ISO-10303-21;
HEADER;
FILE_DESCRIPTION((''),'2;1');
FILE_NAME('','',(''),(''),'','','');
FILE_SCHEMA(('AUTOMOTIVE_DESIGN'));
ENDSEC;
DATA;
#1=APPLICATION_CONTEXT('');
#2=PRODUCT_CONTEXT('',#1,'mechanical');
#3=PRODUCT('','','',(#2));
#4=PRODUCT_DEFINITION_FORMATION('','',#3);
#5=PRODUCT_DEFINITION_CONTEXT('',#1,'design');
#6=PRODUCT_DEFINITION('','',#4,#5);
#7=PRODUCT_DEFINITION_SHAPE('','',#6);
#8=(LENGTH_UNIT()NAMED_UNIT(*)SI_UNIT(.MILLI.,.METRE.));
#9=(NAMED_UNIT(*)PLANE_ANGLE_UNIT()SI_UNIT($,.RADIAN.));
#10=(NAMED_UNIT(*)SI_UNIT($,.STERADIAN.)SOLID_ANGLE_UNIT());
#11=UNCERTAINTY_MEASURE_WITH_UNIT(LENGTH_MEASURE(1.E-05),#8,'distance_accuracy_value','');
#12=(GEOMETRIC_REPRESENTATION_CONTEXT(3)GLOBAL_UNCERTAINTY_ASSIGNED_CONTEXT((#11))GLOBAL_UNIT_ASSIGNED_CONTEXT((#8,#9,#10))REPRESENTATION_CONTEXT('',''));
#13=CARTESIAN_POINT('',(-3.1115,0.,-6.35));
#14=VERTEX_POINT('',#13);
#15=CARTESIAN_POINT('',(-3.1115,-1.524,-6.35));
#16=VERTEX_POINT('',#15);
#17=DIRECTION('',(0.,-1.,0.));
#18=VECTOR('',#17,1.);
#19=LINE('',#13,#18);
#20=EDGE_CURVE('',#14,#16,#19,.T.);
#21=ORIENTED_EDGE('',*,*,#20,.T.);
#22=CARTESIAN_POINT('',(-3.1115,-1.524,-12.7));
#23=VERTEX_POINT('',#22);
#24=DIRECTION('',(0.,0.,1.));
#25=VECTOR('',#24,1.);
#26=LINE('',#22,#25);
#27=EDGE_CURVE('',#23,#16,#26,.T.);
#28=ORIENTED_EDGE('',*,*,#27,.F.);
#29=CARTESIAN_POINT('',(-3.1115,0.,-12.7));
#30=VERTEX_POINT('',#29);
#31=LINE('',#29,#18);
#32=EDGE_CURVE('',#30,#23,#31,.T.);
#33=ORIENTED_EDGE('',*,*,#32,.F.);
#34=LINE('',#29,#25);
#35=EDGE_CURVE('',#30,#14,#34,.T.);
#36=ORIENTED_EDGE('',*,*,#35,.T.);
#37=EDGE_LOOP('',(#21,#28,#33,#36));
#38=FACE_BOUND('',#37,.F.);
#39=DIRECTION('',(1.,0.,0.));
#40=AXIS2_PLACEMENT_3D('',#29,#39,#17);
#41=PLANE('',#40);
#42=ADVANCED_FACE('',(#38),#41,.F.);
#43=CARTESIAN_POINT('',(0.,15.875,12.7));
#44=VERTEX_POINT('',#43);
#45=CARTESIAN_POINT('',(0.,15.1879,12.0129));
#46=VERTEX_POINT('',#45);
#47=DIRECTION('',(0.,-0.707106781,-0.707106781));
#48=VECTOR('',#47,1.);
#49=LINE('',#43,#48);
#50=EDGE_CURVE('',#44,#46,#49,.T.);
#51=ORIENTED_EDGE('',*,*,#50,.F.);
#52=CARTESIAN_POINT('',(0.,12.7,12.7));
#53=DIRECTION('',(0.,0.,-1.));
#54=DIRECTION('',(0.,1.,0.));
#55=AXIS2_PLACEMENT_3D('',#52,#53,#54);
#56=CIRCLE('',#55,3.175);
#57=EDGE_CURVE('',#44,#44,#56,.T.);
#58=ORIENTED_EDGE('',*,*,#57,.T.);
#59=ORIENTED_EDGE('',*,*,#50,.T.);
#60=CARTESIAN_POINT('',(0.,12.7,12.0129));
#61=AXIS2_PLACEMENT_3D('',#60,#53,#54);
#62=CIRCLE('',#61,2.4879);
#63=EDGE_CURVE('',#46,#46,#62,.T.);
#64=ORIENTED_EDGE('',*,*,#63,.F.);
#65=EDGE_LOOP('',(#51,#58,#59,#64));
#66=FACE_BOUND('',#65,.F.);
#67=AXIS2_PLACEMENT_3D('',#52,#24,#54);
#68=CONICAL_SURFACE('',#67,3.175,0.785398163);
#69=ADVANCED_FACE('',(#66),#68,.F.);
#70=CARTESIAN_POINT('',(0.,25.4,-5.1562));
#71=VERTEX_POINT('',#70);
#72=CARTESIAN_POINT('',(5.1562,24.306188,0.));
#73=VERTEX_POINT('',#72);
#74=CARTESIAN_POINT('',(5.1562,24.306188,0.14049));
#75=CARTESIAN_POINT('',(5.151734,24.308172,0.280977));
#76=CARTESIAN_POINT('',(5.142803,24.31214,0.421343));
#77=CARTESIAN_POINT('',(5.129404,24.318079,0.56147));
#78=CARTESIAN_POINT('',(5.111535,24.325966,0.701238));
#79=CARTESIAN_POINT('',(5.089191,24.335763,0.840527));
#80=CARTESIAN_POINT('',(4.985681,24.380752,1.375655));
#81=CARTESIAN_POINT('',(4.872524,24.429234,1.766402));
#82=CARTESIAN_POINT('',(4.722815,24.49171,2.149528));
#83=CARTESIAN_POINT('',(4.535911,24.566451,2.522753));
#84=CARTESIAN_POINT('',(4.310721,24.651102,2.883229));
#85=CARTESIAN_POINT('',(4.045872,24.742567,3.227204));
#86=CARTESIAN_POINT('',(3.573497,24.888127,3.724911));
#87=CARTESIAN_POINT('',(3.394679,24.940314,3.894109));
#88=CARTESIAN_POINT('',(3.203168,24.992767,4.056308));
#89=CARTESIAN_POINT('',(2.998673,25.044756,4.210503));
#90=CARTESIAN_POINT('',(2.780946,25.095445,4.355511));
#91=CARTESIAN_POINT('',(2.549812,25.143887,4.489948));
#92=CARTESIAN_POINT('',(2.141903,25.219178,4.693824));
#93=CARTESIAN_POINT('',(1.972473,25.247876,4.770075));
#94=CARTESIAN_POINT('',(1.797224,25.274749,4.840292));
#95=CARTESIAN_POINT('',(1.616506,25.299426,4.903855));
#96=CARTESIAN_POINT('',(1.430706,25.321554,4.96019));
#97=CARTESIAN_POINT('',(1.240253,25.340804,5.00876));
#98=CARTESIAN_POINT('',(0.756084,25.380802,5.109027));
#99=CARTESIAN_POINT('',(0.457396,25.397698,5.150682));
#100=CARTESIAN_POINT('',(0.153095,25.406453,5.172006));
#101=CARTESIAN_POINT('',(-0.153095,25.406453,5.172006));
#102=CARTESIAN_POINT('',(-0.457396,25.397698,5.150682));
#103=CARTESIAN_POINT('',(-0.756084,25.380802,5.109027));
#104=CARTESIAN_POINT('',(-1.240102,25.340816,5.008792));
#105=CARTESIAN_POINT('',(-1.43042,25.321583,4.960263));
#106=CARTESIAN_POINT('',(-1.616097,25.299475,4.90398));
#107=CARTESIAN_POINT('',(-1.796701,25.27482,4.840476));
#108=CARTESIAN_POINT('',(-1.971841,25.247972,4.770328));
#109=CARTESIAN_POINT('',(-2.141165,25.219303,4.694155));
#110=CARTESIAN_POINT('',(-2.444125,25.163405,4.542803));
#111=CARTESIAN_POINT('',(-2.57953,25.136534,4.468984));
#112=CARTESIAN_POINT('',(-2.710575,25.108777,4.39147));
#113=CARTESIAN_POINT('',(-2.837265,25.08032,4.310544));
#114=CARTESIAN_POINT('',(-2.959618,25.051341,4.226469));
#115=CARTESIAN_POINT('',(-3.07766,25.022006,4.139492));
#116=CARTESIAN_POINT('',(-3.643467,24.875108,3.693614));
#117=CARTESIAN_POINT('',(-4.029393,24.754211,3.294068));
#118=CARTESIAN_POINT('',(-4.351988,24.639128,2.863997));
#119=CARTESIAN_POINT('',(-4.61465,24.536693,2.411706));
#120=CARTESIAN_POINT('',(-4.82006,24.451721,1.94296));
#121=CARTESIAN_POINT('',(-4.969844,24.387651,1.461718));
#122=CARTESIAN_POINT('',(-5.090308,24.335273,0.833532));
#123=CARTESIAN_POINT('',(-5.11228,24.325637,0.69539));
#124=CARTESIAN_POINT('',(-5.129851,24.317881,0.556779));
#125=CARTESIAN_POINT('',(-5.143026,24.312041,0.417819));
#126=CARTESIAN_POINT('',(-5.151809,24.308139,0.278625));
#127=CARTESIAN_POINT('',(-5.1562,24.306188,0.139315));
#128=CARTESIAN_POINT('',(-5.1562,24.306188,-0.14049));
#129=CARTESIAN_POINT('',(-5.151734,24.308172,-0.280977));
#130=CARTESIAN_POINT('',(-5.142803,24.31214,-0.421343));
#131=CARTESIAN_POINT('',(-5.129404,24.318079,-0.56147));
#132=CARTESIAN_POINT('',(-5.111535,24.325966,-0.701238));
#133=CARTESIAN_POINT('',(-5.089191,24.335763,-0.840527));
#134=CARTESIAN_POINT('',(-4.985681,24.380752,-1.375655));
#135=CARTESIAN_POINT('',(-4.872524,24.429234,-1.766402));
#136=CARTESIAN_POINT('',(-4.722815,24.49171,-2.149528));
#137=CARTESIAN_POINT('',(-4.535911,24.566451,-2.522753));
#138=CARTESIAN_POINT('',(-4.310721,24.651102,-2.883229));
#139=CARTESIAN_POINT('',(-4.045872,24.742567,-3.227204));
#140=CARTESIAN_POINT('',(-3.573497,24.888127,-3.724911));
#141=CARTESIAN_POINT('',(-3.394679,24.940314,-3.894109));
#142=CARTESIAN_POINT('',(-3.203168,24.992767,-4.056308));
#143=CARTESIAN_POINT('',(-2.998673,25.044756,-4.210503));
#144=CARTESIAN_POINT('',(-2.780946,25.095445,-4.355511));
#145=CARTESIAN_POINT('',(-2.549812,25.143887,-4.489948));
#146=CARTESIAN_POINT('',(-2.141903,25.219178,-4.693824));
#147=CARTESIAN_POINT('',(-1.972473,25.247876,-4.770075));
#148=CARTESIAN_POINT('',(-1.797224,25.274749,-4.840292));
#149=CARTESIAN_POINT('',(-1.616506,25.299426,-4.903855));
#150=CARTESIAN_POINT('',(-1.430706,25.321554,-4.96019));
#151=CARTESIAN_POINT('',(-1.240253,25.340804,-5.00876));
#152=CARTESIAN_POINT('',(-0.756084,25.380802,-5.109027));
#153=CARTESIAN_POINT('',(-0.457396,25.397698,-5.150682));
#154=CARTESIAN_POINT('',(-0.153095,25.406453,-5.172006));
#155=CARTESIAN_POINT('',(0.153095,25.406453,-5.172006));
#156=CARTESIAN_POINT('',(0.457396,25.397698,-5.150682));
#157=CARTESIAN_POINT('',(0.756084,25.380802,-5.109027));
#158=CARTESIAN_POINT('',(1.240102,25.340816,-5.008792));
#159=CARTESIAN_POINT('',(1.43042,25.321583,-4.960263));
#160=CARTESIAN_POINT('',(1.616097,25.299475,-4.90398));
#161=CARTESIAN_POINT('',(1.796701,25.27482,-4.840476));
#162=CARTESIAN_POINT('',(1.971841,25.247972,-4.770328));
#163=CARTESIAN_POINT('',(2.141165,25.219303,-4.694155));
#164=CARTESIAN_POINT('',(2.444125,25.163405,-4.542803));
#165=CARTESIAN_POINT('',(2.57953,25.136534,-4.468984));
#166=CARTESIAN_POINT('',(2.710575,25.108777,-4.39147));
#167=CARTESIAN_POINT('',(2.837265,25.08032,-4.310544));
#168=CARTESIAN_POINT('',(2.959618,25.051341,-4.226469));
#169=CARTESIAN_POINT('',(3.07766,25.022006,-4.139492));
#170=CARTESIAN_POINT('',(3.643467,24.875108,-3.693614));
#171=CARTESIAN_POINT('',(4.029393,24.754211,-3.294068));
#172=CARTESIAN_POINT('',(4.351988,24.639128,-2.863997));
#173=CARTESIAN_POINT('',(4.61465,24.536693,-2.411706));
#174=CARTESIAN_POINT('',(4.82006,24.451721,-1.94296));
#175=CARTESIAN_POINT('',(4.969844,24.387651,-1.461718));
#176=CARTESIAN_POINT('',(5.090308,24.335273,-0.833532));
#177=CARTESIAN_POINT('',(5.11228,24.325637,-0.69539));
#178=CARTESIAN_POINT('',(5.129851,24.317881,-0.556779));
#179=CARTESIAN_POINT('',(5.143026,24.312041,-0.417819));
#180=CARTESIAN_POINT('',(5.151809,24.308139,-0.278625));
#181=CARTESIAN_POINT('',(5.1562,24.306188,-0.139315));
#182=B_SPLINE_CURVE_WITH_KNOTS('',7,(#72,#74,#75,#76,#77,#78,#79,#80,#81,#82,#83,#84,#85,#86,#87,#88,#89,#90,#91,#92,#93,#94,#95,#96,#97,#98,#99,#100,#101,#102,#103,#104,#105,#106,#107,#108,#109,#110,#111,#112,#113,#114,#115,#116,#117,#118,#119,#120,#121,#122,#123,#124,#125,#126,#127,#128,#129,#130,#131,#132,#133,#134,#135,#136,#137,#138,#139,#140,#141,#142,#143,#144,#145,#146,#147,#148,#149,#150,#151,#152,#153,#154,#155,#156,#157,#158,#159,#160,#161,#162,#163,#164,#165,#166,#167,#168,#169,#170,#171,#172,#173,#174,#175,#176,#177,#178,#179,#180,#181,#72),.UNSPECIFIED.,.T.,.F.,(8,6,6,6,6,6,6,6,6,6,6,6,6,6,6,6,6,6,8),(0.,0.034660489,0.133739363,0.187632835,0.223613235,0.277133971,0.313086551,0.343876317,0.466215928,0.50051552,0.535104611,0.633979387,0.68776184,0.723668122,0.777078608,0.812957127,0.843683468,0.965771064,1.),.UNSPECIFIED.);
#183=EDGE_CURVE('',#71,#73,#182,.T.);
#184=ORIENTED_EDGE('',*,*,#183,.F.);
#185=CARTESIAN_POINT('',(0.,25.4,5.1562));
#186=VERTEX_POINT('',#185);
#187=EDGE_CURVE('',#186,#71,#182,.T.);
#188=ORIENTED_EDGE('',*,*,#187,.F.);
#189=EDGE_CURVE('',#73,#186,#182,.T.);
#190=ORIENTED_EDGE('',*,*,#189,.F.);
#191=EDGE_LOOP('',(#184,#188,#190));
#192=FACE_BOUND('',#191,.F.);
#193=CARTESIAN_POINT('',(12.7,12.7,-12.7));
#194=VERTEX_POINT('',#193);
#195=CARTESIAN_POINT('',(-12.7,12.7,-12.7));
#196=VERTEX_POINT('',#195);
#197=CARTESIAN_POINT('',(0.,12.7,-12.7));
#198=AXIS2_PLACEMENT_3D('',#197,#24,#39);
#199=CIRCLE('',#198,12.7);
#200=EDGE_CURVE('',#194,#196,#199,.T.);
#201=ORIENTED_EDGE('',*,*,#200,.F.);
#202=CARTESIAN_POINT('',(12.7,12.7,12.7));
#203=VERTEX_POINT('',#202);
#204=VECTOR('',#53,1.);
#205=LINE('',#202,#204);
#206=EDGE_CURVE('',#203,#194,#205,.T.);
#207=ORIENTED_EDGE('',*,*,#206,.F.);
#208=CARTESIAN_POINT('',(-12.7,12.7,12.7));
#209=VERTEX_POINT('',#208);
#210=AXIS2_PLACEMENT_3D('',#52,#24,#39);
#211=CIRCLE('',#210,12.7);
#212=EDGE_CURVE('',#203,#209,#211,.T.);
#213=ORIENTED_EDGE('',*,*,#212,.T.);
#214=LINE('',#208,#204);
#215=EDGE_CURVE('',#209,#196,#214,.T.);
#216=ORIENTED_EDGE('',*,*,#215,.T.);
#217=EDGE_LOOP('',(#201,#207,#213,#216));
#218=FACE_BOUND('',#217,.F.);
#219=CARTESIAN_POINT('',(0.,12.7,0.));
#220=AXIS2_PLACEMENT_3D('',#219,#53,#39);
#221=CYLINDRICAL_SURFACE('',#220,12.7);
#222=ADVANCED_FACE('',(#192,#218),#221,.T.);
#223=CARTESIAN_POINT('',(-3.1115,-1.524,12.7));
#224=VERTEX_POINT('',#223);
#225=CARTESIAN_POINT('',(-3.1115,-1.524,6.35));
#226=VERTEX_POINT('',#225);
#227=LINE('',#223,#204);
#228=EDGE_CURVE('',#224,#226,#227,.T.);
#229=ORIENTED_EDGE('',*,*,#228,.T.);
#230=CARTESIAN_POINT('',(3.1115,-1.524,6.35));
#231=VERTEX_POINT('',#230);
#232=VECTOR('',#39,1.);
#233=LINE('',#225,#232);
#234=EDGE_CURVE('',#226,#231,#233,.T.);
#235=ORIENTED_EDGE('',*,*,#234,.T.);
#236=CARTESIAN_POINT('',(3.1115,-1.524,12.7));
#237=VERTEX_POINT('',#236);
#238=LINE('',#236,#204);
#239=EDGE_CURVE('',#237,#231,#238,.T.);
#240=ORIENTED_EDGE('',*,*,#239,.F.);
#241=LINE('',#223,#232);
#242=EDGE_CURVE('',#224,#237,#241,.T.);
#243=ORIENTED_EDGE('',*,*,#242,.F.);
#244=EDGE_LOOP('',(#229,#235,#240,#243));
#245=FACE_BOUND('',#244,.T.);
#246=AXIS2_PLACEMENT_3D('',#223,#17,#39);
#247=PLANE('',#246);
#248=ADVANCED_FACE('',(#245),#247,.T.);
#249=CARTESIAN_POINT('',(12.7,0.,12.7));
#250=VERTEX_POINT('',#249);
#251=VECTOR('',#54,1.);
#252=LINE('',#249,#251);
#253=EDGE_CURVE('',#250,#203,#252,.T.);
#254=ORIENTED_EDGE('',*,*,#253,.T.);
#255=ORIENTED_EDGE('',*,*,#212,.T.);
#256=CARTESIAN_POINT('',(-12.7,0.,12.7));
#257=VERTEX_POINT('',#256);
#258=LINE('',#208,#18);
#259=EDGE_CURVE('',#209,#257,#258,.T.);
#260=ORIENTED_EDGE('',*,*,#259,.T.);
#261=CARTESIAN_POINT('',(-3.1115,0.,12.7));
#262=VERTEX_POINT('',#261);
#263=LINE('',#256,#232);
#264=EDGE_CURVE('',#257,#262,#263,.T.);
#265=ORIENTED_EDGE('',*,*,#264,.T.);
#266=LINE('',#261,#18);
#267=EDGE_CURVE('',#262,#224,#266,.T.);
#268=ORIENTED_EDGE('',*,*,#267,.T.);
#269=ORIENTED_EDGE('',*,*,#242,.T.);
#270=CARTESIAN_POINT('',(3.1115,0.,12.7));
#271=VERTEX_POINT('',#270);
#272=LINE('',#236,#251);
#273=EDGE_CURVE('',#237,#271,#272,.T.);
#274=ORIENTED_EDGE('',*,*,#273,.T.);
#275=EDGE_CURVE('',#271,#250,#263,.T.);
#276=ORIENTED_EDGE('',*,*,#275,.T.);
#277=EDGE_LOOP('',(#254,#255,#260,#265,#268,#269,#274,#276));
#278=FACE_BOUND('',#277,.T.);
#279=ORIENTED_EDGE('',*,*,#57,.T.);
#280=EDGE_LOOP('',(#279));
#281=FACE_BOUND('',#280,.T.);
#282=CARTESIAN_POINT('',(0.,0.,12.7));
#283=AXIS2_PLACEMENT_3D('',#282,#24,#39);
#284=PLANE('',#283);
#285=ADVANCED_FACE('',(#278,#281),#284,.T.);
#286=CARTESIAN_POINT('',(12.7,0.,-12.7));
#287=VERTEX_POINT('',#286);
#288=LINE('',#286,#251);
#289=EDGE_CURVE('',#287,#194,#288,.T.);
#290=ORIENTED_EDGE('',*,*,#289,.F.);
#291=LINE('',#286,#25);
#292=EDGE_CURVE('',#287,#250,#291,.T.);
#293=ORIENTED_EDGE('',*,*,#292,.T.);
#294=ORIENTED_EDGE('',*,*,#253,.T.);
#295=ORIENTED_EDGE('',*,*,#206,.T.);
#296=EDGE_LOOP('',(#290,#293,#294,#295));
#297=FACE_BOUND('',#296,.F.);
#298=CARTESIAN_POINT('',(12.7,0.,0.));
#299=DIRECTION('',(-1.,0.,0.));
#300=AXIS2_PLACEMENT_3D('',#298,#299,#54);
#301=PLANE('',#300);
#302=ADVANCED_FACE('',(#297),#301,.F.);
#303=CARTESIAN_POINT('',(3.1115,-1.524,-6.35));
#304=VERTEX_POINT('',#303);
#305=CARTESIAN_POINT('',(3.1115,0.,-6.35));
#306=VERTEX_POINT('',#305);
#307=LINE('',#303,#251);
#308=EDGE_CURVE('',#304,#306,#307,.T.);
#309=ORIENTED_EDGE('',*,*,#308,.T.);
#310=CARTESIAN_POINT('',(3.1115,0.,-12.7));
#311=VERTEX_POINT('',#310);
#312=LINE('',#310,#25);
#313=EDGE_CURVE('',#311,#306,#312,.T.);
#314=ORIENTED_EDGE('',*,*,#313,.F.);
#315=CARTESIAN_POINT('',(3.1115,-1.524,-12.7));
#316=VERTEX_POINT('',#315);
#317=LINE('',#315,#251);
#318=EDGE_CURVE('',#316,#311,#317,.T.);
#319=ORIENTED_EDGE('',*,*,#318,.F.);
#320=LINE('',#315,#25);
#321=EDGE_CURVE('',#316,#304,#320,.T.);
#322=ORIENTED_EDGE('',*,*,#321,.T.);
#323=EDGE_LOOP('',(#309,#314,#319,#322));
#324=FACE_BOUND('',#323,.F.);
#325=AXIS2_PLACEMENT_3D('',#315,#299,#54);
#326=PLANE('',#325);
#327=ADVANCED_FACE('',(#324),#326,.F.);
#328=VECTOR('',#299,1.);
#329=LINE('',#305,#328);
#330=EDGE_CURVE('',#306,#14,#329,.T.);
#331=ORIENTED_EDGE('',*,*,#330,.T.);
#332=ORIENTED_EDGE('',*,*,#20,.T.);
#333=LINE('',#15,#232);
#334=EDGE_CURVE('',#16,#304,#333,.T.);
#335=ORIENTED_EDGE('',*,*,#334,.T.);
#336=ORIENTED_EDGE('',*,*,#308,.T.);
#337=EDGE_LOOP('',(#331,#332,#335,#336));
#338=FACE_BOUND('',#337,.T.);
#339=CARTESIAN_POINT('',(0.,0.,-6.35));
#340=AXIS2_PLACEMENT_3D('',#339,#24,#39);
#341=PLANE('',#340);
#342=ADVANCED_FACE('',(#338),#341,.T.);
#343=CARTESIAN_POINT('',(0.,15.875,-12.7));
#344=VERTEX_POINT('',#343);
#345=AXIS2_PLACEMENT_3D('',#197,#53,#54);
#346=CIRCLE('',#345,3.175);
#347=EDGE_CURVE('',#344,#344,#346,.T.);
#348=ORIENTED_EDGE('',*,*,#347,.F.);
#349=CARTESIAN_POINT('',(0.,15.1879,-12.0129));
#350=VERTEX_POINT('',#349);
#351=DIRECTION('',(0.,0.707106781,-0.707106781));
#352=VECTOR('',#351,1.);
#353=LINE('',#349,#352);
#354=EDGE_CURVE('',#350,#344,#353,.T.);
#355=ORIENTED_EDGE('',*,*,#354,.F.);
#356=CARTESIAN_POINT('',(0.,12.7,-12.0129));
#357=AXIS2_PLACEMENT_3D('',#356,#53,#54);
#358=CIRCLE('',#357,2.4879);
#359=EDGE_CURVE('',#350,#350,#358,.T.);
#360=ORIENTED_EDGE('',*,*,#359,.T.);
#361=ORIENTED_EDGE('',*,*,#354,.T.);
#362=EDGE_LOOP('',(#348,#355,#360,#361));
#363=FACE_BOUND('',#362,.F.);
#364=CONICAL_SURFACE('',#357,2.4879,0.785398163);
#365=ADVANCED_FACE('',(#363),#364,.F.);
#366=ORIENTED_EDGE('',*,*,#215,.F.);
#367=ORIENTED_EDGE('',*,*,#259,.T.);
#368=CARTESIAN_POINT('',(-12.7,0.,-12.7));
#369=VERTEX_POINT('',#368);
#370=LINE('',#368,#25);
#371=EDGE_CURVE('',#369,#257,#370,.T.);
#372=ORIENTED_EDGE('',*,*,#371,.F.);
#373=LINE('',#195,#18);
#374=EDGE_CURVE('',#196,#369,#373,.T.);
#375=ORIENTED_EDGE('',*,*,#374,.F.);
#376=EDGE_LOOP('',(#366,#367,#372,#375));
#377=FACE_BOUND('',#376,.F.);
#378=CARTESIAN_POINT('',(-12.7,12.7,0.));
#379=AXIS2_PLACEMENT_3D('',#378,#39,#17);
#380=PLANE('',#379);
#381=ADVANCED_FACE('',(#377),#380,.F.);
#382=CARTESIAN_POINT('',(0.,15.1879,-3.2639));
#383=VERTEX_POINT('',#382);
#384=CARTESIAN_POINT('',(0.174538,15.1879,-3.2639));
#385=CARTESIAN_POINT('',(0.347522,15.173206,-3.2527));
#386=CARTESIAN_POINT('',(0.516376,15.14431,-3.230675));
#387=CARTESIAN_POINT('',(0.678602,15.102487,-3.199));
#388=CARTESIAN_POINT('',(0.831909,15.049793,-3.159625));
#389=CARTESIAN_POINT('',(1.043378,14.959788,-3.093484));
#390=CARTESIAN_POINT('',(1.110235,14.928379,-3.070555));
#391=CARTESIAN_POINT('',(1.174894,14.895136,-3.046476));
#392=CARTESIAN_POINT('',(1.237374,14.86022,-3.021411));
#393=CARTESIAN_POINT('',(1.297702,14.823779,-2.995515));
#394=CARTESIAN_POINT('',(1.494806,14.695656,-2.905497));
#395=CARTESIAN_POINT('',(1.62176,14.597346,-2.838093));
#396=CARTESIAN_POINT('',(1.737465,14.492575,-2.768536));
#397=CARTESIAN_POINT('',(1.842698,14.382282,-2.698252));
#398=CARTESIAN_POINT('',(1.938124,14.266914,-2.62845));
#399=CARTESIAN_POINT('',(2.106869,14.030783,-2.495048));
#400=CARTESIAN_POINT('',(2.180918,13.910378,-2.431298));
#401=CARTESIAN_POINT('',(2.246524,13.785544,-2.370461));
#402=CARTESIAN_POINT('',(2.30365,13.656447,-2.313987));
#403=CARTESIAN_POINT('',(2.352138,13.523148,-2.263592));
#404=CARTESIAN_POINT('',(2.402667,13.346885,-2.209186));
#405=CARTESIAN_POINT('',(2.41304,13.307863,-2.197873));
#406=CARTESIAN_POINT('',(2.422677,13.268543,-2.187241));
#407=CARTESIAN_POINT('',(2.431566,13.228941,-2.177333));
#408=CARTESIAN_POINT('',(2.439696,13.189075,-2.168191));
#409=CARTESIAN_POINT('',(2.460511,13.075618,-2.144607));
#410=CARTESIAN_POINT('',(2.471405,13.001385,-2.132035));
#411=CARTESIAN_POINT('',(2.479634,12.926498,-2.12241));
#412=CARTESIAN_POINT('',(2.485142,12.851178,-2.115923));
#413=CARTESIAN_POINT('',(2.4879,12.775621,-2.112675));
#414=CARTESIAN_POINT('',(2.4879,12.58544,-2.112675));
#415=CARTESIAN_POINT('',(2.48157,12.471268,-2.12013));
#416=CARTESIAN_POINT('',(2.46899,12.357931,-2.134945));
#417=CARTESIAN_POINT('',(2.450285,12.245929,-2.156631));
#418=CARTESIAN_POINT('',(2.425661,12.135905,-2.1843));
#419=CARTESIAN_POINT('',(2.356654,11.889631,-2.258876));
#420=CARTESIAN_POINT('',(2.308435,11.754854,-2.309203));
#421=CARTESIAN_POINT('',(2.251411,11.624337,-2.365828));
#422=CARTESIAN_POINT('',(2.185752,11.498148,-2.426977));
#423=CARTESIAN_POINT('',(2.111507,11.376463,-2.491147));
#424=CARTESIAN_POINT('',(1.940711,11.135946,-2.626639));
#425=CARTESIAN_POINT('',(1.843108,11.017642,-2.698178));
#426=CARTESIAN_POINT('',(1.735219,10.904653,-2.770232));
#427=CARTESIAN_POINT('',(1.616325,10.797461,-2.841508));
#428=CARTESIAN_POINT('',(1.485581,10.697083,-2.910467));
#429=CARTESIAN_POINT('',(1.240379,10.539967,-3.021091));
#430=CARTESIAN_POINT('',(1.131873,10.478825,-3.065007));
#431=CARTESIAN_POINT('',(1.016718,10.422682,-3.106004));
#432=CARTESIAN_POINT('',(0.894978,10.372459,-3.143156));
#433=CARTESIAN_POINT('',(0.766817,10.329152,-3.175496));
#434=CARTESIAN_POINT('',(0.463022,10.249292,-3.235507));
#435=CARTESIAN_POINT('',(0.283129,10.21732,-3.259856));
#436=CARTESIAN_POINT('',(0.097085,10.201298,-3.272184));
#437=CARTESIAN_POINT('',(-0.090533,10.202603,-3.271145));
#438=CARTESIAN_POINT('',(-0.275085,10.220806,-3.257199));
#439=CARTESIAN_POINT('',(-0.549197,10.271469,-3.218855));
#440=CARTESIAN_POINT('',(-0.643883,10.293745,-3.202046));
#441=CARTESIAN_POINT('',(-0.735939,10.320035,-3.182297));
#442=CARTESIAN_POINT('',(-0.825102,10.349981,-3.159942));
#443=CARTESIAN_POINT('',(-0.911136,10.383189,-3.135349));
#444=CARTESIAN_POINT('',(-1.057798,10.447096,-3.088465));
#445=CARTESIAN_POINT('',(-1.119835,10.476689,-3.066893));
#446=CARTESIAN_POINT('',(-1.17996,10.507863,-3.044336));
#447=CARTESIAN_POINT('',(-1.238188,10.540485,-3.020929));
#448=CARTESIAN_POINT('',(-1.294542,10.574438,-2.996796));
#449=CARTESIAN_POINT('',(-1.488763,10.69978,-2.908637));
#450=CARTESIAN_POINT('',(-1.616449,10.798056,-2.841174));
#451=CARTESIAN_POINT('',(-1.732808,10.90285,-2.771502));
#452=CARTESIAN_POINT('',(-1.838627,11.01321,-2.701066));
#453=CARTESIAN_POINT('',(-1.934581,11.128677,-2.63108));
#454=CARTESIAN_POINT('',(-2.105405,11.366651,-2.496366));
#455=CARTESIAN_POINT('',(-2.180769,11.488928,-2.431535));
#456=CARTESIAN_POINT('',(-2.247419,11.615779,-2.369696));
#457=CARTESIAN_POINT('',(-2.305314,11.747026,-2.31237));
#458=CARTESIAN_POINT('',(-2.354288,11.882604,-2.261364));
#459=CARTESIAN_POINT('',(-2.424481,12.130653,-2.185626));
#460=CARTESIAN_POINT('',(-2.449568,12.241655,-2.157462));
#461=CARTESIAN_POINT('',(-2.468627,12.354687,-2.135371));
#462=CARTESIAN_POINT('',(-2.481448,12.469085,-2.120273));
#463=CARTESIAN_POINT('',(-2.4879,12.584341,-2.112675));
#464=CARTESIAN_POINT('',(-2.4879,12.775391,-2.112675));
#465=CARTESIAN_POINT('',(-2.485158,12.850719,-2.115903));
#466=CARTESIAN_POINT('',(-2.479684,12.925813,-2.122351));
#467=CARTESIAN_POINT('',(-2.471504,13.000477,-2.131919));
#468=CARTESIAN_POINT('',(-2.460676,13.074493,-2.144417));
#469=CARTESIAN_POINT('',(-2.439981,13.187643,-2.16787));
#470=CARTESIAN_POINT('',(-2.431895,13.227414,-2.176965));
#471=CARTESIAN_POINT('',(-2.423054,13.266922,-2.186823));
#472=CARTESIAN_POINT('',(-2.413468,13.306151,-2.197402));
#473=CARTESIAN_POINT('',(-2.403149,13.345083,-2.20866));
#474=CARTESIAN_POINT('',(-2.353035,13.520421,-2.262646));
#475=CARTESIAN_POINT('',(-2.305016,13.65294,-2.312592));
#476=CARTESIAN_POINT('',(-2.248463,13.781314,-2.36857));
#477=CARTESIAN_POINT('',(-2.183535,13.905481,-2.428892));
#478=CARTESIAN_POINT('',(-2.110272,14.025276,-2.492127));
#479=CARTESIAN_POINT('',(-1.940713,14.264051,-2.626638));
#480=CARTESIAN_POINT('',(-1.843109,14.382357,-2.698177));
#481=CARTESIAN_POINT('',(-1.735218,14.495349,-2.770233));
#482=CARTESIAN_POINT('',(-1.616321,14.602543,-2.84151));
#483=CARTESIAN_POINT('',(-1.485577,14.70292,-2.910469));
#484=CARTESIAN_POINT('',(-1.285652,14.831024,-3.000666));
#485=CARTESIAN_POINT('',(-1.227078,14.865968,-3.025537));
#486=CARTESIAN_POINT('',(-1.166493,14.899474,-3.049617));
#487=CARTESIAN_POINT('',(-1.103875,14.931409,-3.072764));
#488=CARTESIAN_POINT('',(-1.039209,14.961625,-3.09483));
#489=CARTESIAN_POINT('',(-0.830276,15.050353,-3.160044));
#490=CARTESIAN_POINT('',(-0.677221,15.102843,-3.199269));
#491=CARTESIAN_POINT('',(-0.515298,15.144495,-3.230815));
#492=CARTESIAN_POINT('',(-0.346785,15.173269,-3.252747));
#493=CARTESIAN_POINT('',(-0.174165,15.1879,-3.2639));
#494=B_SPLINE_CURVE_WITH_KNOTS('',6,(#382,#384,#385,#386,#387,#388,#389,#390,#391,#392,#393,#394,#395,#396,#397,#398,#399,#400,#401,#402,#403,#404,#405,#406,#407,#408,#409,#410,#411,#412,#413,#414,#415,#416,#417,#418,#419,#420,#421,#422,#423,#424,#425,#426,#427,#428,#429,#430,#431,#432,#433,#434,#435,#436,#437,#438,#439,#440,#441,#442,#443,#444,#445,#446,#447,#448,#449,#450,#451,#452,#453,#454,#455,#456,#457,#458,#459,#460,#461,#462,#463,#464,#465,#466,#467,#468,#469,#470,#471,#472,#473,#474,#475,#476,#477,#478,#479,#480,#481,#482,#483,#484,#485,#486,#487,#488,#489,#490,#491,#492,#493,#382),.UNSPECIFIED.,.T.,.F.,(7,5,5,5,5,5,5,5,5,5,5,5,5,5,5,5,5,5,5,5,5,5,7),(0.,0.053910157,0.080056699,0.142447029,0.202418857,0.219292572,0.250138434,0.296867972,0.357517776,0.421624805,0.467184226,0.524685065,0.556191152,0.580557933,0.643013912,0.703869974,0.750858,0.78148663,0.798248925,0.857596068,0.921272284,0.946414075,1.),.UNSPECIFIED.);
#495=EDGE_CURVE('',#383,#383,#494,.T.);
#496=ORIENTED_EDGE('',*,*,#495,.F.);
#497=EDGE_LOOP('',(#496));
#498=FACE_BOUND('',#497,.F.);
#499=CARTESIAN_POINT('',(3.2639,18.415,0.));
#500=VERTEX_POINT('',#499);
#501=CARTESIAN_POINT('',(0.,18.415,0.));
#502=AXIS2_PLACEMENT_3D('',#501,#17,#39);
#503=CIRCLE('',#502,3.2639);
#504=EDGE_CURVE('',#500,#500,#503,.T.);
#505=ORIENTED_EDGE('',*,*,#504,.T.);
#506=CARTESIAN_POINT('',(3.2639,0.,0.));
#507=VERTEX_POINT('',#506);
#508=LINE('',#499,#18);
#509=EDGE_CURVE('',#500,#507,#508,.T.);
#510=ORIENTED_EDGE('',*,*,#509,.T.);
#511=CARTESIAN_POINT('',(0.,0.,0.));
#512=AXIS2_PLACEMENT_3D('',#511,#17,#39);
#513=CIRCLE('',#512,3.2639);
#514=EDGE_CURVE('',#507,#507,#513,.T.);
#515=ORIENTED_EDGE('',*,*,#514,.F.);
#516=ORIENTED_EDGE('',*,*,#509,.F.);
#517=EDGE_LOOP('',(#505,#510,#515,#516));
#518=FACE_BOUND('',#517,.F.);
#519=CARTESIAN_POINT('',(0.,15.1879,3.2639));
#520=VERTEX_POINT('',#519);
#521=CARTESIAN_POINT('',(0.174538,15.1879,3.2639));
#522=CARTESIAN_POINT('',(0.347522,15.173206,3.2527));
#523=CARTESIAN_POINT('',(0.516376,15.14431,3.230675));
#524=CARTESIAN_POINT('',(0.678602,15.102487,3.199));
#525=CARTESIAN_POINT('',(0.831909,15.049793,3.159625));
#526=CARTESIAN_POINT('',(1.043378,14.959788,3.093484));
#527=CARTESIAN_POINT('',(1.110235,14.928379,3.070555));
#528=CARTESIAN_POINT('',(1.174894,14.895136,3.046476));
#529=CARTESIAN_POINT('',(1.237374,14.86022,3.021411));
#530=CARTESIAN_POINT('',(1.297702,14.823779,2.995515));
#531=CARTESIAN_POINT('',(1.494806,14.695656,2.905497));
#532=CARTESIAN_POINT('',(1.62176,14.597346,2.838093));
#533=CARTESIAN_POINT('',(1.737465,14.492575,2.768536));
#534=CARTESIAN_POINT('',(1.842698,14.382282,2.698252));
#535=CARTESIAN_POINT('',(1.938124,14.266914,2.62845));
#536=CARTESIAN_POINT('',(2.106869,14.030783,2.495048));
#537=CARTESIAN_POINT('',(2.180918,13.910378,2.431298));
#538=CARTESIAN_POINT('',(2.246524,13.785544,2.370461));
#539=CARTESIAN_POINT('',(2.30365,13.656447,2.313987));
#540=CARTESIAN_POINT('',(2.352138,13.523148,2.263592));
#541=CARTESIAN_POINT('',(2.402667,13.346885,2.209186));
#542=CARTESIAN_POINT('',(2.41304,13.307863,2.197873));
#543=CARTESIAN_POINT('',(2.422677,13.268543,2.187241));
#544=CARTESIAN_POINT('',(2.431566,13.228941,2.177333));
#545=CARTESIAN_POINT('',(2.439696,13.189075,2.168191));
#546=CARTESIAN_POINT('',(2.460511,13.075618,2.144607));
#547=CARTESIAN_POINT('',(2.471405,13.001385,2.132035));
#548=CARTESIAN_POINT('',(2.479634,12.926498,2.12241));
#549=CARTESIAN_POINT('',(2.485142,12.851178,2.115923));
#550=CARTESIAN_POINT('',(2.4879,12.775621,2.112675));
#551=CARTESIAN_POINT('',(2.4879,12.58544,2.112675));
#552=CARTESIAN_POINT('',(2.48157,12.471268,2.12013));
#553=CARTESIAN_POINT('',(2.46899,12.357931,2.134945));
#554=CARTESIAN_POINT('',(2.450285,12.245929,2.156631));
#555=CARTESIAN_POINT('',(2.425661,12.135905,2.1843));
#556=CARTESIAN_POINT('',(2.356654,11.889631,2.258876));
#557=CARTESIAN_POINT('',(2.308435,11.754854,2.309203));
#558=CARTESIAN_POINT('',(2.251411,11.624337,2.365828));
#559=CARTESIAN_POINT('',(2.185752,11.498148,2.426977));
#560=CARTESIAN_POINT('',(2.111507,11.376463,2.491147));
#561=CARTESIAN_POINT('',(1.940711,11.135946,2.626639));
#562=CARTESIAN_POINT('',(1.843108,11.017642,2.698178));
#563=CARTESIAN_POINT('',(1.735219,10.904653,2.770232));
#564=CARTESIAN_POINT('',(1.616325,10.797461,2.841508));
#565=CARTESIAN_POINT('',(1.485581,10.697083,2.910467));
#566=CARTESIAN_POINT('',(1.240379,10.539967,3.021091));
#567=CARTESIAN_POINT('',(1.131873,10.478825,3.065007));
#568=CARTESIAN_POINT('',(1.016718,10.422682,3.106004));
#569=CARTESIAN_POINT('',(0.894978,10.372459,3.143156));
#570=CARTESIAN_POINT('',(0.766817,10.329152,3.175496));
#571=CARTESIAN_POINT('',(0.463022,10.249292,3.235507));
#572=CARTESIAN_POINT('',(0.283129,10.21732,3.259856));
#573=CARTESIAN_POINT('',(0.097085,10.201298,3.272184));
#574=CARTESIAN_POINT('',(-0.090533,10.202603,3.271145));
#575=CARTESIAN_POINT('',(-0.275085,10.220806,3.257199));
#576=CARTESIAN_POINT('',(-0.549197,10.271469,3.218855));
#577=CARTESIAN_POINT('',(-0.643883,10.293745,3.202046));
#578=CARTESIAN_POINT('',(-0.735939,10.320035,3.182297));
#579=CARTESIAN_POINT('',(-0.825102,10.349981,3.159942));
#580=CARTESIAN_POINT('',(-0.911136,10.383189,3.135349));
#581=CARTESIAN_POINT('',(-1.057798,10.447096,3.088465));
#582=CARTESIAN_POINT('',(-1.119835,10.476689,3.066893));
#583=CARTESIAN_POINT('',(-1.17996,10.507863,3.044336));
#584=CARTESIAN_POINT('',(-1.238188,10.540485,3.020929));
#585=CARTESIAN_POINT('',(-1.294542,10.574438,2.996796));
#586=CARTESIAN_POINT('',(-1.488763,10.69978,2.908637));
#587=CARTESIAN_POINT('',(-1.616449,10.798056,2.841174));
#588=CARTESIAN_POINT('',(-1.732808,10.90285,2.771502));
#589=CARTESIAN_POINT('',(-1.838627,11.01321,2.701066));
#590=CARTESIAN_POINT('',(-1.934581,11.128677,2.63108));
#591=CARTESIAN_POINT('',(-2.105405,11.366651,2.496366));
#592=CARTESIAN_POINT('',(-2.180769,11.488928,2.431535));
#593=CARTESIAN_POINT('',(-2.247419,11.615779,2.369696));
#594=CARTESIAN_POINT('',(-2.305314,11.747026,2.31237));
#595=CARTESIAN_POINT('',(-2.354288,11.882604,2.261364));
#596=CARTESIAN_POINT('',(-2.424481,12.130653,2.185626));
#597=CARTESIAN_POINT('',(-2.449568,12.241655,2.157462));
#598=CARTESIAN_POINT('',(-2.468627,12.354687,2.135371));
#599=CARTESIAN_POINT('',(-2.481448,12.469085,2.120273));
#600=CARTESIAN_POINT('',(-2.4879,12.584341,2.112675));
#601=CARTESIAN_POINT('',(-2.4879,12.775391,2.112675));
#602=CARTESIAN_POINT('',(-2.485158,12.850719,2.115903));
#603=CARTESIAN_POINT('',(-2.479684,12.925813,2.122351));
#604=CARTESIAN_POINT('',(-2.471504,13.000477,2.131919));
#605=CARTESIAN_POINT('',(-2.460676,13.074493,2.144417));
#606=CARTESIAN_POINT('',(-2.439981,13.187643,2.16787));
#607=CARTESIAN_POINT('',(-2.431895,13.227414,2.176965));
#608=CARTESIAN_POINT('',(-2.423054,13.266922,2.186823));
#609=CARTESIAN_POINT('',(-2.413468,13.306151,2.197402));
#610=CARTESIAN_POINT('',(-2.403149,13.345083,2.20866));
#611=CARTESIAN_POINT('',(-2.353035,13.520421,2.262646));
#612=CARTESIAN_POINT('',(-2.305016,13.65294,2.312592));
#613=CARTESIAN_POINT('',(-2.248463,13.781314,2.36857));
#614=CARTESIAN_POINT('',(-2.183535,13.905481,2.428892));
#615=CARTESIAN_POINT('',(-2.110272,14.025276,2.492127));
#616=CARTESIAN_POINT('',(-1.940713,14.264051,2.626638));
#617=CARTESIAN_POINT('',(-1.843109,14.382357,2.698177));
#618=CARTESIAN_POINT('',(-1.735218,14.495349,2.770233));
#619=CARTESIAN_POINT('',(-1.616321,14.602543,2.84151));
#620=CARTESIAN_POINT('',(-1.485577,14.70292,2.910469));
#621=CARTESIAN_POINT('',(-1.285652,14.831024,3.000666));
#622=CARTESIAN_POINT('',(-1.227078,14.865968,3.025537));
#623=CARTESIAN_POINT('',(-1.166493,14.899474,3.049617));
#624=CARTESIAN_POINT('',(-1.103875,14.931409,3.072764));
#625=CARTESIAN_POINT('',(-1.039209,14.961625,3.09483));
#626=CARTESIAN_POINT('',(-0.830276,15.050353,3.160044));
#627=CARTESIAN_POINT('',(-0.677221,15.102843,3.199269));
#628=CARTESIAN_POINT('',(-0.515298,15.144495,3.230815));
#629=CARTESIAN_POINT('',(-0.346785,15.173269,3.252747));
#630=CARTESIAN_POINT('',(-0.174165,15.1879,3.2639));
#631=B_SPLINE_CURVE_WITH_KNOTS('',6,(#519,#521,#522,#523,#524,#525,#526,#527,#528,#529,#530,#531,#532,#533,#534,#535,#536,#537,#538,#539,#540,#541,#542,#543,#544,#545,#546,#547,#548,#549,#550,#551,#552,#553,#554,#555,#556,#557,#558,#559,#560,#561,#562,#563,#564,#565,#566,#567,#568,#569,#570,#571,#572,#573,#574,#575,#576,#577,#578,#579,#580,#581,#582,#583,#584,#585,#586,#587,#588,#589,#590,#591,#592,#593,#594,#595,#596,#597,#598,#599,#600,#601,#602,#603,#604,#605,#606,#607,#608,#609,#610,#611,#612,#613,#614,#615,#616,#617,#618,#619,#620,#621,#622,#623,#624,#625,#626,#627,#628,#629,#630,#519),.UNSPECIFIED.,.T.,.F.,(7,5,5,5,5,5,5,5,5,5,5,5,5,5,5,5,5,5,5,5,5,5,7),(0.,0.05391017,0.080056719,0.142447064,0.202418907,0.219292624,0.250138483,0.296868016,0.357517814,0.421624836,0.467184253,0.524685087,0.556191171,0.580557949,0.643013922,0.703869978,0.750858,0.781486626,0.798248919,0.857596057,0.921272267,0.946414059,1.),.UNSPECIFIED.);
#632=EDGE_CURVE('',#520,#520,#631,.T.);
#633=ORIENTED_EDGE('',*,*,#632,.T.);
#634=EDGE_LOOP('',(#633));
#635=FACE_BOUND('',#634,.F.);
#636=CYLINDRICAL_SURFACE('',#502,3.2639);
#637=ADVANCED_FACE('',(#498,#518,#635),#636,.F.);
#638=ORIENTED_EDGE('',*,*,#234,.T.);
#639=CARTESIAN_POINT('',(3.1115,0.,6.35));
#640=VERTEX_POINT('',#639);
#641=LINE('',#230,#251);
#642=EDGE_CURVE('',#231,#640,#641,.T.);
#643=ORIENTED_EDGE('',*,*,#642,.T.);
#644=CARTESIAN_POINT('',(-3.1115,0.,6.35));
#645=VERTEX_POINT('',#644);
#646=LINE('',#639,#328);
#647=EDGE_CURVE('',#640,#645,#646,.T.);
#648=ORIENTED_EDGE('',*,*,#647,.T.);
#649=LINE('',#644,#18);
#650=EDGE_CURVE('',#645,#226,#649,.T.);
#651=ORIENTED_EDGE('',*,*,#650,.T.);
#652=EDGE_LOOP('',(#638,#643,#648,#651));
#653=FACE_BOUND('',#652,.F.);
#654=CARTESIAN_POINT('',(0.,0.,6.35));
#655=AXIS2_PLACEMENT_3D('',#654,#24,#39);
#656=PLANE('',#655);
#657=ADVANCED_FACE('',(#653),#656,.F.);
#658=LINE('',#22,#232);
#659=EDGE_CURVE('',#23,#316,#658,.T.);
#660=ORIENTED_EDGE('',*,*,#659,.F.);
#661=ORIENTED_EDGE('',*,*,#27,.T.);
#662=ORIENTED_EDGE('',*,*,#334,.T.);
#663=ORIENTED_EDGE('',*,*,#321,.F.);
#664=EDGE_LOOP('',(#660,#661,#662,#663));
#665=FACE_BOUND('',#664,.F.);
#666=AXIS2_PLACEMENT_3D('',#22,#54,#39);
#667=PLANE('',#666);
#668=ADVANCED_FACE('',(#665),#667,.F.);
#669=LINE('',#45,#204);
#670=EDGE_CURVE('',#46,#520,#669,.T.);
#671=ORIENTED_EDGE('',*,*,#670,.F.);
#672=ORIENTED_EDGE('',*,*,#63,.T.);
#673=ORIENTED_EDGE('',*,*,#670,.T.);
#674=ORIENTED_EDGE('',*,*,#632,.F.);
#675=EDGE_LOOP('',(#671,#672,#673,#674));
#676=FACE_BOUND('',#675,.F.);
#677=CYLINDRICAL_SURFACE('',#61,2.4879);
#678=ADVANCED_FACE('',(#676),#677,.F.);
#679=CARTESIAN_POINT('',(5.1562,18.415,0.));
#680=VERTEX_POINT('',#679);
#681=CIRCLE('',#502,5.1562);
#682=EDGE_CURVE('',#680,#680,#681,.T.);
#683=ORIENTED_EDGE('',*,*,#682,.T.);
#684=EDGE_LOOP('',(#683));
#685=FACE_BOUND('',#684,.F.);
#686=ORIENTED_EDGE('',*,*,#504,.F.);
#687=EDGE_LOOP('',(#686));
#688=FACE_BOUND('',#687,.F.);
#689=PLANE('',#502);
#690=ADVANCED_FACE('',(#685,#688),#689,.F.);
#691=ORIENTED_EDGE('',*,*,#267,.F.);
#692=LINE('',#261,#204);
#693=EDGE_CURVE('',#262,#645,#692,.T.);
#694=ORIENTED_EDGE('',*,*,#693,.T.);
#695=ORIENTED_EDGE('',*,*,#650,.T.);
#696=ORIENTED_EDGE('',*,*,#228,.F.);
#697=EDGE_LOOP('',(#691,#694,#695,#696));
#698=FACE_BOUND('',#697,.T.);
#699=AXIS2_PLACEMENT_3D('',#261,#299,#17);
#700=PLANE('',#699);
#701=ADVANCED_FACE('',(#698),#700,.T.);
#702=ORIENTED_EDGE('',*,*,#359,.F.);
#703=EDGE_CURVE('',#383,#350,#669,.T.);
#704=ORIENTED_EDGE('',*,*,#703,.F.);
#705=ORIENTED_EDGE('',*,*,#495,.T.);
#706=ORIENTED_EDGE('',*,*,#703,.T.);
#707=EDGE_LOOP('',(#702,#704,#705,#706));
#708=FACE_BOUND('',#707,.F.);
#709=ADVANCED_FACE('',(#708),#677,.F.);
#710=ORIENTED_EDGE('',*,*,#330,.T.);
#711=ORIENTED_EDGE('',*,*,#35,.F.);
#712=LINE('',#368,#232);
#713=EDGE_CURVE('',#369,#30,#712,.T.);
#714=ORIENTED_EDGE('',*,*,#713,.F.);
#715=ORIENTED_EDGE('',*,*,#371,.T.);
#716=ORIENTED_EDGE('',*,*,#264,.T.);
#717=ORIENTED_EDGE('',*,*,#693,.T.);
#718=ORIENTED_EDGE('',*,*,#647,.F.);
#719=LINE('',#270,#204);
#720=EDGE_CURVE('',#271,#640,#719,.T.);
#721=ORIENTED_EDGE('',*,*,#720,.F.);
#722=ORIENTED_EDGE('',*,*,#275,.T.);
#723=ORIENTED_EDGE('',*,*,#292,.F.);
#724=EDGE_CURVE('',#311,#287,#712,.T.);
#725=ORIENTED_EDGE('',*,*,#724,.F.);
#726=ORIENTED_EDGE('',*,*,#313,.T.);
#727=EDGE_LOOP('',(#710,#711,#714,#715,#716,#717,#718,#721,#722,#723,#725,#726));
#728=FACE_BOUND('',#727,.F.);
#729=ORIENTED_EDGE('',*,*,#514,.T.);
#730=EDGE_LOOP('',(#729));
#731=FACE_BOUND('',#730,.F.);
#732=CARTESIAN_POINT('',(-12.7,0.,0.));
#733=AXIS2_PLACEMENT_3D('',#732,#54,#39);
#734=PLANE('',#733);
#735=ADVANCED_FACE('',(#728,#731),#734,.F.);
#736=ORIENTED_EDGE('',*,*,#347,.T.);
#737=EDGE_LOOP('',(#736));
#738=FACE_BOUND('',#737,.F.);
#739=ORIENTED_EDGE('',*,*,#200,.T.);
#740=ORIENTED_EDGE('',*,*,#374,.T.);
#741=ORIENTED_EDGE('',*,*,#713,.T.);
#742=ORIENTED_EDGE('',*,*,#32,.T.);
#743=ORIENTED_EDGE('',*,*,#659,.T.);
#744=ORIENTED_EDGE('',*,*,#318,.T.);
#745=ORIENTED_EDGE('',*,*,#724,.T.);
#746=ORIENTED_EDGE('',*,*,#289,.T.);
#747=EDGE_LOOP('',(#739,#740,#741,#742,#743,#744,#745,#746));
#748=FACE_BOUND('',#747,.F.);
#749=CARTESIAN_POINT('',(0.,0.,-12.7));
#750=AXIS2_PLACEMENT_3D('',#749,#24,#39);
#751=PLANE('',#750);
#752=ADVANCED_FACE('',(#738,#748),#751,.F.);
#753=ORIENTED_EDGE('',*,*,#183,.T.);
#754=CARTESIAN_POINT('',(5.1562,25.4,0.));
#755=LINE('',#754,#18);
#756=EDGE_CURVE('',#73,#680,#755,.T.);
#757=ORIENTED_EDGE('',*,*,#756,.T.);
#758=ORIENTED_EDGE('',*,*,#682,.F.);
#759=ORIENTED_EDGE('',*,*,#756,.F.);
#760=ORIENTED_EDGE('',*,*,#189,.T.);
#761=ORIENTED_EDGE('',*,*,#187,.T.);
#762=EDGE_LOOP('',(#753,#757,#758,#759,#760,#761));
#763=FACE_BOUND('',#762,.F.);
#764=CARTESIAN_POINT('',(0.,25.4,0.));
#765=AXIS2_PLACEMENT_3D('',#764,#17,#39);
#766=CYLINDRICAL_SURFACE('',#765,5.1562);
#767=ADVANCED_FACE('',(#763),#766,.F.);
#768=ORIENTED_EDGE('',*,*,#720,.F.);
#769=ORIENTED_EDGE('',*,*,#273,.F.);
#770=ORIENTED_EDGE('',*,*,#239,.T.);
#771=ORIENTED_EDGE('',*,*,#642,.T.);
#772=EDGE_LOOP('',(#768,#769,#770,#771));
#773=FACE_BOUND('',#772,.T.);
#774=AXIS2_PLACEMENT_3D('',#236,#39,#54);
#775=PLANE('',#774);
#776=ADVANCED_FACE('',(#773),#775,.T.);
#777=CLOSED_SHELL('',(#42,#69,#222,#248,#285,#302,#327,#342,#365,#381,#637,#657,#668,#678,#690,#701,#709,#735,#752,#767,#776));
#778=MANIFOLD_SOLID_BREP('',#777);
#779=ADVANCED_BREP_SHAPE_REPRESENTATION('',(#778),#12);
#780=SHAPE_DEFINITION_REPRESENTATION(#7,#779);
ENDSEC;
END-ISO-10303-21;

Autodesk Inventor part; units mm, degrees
sketch "Sketch_1" plane through (0, 0, 0) normal (0, 0, 1) x (1, 0, 0)
  line L0 (-12.7, 0) -> (12.7, 0)
  line L1 (12.7, 0) -> (12.7, 12.7)
  arc A0 (12.7, 12.7) -> (-12.7, 12.7) centre (0, 12.7) ccw
  line L2 (-12.7, 12.7) -> (-12.7, 0)
extrude "Extrusion1" add sketch "Sketch_1" along normal mid plane 25.4
sketch "Sketch_7" plane through (0, 0, 12.7) normal (0, 0, 1) x (1, 0, 0)
  line L0 (-3.1115, -1.524) -> (3.1115, -1.524)
  line L1 (3.1115, -1.524) -> (3.1115, 0)
  line L2 (3.1115, 0) -> (-3.1115, 0)
  line L3 (-3.1115, 0) -> (-3.1115, -1.524)
extrude "Extrusion2" add sketch "Sketch_7" against normal blind 6.35
sketch "Sketch_2" plane through (0, 0, -12.7) normal (0, 0, 1) x (1, 0, 0)
  line L0 (-3.1115, -1.524) -> (3.1115, -1.524)
  line L1 (3.1115, -1.524) -> (3.1115, 0)
  line L2 (3.1115, 0) -> (-3.1115, 0)
  line L3 (-3.1115, 0) -> (-3.1115, -1.524)
extrude "Extrusion3" add sketch "Sketch_2" along normal blind 6.35
sketch "Sketch_3" plane through (0, 0, 0) normal (1, 0, 0) x (0, 1, 0)
  line L0 (12.7, -12.7) -> (12.7, 12.7)
  line L1 (12.7, 12.7) -> (15.875, 12.7)
  line L2 (15.875, 12.7) -> (15.1879, 12.0129)
  line L3 (15.1879, 12.0129) -> (15.1879, -12.0129)
  line L4 (15.1879, -12.0129) -> (15.875, -12.7)
  line L5 (15.875, -12.7) -> (12.7, -12.7)
  line L6 (12.7, -12.7) -> (12.7, 12.7)
revolve "Revolution1" cut sketch "Sketch_3" angle 360 about axis through (0, 12.7, -12.7) along (0, 0, -1)
thread "Thread1" size "1/4-20 UNC" class "2B" standard "ANSI Unified Screw Threads" full length
sketch "Sketch_4" plane through (0, 0, 0) normal (0, 0, 1) x (1, 0, 0)
  line L0 (0, 0) -> (0, 25.4)
  line L1 (0, 25.4) -> (5.1562, 25.4)
  line L2 (5.1562, 25.4) -> (5.1562, 18.415)
  line L3 (5.1562, 18.415) -> (3.2639, 18.415)
  line L4 (3.2639, 18.415) -> (3.2639, 0)
  line L5 (3.2639, 0) -> (0, 0)
  line L6 (0, 0) -> (0, 25.4)
revolve "Revolution2" cut sketch "Sketch_4" angle 360 about axis through (0, 0, 0) along (0, -1, 0)
ref_plane "nub_XY" through (0, 12.7, 12.7) normal (0, 0, 1) x (1, 0, 0)
ref_plane "nub_YZ" through (0, 12.7, 12.7) normal (1, 0, 0) x (0, 1, 0)
ref_plane "nub_ZX" through (0, 12.7, 12.7) normal (0, 1, 0) x (0, 0, 1)
ref_plane "nub1_XY" through (0, 12.7, -12.7) normal (0, 0, 1) x (1, 0, 0)
ref_plane "nub1_YZ" through (0, 12.7, -12.7) normal (1, 0, 0) x (0, 1, 0)
ref_plane "nub1_ZX" through (0, 12.7, -12.7) normal (0, 1, 0) x (0, 0, 1)
ref_plane "to_dummy_XY" through (0, 0, 0) normal (0, 1, 0) x (1, 0, 0)
ref_plane "to_dummy_YZ" through (0, 0, 0) normal (1, 0, 0) x (0, 0, -1)
ref_plane "to_dummy_ZX" through (0, 0, 0) normal (0, 0, -1) x (0, 1, 0)
ref_plane "to_screw_XY" through (0, 18.415, 0) normal (0, 1, 0) x (1, 0, 0)
ref_plane "to_screw_YZ" through (0, 18.415, 0) normal (1, 0, 0) x (0, 0, -1)
ref_plane "to_screw_ZX" through (0, 18.415, 0) normal (0, 0, -1) x (0, 1, 0)
properties part number "4188_n"
